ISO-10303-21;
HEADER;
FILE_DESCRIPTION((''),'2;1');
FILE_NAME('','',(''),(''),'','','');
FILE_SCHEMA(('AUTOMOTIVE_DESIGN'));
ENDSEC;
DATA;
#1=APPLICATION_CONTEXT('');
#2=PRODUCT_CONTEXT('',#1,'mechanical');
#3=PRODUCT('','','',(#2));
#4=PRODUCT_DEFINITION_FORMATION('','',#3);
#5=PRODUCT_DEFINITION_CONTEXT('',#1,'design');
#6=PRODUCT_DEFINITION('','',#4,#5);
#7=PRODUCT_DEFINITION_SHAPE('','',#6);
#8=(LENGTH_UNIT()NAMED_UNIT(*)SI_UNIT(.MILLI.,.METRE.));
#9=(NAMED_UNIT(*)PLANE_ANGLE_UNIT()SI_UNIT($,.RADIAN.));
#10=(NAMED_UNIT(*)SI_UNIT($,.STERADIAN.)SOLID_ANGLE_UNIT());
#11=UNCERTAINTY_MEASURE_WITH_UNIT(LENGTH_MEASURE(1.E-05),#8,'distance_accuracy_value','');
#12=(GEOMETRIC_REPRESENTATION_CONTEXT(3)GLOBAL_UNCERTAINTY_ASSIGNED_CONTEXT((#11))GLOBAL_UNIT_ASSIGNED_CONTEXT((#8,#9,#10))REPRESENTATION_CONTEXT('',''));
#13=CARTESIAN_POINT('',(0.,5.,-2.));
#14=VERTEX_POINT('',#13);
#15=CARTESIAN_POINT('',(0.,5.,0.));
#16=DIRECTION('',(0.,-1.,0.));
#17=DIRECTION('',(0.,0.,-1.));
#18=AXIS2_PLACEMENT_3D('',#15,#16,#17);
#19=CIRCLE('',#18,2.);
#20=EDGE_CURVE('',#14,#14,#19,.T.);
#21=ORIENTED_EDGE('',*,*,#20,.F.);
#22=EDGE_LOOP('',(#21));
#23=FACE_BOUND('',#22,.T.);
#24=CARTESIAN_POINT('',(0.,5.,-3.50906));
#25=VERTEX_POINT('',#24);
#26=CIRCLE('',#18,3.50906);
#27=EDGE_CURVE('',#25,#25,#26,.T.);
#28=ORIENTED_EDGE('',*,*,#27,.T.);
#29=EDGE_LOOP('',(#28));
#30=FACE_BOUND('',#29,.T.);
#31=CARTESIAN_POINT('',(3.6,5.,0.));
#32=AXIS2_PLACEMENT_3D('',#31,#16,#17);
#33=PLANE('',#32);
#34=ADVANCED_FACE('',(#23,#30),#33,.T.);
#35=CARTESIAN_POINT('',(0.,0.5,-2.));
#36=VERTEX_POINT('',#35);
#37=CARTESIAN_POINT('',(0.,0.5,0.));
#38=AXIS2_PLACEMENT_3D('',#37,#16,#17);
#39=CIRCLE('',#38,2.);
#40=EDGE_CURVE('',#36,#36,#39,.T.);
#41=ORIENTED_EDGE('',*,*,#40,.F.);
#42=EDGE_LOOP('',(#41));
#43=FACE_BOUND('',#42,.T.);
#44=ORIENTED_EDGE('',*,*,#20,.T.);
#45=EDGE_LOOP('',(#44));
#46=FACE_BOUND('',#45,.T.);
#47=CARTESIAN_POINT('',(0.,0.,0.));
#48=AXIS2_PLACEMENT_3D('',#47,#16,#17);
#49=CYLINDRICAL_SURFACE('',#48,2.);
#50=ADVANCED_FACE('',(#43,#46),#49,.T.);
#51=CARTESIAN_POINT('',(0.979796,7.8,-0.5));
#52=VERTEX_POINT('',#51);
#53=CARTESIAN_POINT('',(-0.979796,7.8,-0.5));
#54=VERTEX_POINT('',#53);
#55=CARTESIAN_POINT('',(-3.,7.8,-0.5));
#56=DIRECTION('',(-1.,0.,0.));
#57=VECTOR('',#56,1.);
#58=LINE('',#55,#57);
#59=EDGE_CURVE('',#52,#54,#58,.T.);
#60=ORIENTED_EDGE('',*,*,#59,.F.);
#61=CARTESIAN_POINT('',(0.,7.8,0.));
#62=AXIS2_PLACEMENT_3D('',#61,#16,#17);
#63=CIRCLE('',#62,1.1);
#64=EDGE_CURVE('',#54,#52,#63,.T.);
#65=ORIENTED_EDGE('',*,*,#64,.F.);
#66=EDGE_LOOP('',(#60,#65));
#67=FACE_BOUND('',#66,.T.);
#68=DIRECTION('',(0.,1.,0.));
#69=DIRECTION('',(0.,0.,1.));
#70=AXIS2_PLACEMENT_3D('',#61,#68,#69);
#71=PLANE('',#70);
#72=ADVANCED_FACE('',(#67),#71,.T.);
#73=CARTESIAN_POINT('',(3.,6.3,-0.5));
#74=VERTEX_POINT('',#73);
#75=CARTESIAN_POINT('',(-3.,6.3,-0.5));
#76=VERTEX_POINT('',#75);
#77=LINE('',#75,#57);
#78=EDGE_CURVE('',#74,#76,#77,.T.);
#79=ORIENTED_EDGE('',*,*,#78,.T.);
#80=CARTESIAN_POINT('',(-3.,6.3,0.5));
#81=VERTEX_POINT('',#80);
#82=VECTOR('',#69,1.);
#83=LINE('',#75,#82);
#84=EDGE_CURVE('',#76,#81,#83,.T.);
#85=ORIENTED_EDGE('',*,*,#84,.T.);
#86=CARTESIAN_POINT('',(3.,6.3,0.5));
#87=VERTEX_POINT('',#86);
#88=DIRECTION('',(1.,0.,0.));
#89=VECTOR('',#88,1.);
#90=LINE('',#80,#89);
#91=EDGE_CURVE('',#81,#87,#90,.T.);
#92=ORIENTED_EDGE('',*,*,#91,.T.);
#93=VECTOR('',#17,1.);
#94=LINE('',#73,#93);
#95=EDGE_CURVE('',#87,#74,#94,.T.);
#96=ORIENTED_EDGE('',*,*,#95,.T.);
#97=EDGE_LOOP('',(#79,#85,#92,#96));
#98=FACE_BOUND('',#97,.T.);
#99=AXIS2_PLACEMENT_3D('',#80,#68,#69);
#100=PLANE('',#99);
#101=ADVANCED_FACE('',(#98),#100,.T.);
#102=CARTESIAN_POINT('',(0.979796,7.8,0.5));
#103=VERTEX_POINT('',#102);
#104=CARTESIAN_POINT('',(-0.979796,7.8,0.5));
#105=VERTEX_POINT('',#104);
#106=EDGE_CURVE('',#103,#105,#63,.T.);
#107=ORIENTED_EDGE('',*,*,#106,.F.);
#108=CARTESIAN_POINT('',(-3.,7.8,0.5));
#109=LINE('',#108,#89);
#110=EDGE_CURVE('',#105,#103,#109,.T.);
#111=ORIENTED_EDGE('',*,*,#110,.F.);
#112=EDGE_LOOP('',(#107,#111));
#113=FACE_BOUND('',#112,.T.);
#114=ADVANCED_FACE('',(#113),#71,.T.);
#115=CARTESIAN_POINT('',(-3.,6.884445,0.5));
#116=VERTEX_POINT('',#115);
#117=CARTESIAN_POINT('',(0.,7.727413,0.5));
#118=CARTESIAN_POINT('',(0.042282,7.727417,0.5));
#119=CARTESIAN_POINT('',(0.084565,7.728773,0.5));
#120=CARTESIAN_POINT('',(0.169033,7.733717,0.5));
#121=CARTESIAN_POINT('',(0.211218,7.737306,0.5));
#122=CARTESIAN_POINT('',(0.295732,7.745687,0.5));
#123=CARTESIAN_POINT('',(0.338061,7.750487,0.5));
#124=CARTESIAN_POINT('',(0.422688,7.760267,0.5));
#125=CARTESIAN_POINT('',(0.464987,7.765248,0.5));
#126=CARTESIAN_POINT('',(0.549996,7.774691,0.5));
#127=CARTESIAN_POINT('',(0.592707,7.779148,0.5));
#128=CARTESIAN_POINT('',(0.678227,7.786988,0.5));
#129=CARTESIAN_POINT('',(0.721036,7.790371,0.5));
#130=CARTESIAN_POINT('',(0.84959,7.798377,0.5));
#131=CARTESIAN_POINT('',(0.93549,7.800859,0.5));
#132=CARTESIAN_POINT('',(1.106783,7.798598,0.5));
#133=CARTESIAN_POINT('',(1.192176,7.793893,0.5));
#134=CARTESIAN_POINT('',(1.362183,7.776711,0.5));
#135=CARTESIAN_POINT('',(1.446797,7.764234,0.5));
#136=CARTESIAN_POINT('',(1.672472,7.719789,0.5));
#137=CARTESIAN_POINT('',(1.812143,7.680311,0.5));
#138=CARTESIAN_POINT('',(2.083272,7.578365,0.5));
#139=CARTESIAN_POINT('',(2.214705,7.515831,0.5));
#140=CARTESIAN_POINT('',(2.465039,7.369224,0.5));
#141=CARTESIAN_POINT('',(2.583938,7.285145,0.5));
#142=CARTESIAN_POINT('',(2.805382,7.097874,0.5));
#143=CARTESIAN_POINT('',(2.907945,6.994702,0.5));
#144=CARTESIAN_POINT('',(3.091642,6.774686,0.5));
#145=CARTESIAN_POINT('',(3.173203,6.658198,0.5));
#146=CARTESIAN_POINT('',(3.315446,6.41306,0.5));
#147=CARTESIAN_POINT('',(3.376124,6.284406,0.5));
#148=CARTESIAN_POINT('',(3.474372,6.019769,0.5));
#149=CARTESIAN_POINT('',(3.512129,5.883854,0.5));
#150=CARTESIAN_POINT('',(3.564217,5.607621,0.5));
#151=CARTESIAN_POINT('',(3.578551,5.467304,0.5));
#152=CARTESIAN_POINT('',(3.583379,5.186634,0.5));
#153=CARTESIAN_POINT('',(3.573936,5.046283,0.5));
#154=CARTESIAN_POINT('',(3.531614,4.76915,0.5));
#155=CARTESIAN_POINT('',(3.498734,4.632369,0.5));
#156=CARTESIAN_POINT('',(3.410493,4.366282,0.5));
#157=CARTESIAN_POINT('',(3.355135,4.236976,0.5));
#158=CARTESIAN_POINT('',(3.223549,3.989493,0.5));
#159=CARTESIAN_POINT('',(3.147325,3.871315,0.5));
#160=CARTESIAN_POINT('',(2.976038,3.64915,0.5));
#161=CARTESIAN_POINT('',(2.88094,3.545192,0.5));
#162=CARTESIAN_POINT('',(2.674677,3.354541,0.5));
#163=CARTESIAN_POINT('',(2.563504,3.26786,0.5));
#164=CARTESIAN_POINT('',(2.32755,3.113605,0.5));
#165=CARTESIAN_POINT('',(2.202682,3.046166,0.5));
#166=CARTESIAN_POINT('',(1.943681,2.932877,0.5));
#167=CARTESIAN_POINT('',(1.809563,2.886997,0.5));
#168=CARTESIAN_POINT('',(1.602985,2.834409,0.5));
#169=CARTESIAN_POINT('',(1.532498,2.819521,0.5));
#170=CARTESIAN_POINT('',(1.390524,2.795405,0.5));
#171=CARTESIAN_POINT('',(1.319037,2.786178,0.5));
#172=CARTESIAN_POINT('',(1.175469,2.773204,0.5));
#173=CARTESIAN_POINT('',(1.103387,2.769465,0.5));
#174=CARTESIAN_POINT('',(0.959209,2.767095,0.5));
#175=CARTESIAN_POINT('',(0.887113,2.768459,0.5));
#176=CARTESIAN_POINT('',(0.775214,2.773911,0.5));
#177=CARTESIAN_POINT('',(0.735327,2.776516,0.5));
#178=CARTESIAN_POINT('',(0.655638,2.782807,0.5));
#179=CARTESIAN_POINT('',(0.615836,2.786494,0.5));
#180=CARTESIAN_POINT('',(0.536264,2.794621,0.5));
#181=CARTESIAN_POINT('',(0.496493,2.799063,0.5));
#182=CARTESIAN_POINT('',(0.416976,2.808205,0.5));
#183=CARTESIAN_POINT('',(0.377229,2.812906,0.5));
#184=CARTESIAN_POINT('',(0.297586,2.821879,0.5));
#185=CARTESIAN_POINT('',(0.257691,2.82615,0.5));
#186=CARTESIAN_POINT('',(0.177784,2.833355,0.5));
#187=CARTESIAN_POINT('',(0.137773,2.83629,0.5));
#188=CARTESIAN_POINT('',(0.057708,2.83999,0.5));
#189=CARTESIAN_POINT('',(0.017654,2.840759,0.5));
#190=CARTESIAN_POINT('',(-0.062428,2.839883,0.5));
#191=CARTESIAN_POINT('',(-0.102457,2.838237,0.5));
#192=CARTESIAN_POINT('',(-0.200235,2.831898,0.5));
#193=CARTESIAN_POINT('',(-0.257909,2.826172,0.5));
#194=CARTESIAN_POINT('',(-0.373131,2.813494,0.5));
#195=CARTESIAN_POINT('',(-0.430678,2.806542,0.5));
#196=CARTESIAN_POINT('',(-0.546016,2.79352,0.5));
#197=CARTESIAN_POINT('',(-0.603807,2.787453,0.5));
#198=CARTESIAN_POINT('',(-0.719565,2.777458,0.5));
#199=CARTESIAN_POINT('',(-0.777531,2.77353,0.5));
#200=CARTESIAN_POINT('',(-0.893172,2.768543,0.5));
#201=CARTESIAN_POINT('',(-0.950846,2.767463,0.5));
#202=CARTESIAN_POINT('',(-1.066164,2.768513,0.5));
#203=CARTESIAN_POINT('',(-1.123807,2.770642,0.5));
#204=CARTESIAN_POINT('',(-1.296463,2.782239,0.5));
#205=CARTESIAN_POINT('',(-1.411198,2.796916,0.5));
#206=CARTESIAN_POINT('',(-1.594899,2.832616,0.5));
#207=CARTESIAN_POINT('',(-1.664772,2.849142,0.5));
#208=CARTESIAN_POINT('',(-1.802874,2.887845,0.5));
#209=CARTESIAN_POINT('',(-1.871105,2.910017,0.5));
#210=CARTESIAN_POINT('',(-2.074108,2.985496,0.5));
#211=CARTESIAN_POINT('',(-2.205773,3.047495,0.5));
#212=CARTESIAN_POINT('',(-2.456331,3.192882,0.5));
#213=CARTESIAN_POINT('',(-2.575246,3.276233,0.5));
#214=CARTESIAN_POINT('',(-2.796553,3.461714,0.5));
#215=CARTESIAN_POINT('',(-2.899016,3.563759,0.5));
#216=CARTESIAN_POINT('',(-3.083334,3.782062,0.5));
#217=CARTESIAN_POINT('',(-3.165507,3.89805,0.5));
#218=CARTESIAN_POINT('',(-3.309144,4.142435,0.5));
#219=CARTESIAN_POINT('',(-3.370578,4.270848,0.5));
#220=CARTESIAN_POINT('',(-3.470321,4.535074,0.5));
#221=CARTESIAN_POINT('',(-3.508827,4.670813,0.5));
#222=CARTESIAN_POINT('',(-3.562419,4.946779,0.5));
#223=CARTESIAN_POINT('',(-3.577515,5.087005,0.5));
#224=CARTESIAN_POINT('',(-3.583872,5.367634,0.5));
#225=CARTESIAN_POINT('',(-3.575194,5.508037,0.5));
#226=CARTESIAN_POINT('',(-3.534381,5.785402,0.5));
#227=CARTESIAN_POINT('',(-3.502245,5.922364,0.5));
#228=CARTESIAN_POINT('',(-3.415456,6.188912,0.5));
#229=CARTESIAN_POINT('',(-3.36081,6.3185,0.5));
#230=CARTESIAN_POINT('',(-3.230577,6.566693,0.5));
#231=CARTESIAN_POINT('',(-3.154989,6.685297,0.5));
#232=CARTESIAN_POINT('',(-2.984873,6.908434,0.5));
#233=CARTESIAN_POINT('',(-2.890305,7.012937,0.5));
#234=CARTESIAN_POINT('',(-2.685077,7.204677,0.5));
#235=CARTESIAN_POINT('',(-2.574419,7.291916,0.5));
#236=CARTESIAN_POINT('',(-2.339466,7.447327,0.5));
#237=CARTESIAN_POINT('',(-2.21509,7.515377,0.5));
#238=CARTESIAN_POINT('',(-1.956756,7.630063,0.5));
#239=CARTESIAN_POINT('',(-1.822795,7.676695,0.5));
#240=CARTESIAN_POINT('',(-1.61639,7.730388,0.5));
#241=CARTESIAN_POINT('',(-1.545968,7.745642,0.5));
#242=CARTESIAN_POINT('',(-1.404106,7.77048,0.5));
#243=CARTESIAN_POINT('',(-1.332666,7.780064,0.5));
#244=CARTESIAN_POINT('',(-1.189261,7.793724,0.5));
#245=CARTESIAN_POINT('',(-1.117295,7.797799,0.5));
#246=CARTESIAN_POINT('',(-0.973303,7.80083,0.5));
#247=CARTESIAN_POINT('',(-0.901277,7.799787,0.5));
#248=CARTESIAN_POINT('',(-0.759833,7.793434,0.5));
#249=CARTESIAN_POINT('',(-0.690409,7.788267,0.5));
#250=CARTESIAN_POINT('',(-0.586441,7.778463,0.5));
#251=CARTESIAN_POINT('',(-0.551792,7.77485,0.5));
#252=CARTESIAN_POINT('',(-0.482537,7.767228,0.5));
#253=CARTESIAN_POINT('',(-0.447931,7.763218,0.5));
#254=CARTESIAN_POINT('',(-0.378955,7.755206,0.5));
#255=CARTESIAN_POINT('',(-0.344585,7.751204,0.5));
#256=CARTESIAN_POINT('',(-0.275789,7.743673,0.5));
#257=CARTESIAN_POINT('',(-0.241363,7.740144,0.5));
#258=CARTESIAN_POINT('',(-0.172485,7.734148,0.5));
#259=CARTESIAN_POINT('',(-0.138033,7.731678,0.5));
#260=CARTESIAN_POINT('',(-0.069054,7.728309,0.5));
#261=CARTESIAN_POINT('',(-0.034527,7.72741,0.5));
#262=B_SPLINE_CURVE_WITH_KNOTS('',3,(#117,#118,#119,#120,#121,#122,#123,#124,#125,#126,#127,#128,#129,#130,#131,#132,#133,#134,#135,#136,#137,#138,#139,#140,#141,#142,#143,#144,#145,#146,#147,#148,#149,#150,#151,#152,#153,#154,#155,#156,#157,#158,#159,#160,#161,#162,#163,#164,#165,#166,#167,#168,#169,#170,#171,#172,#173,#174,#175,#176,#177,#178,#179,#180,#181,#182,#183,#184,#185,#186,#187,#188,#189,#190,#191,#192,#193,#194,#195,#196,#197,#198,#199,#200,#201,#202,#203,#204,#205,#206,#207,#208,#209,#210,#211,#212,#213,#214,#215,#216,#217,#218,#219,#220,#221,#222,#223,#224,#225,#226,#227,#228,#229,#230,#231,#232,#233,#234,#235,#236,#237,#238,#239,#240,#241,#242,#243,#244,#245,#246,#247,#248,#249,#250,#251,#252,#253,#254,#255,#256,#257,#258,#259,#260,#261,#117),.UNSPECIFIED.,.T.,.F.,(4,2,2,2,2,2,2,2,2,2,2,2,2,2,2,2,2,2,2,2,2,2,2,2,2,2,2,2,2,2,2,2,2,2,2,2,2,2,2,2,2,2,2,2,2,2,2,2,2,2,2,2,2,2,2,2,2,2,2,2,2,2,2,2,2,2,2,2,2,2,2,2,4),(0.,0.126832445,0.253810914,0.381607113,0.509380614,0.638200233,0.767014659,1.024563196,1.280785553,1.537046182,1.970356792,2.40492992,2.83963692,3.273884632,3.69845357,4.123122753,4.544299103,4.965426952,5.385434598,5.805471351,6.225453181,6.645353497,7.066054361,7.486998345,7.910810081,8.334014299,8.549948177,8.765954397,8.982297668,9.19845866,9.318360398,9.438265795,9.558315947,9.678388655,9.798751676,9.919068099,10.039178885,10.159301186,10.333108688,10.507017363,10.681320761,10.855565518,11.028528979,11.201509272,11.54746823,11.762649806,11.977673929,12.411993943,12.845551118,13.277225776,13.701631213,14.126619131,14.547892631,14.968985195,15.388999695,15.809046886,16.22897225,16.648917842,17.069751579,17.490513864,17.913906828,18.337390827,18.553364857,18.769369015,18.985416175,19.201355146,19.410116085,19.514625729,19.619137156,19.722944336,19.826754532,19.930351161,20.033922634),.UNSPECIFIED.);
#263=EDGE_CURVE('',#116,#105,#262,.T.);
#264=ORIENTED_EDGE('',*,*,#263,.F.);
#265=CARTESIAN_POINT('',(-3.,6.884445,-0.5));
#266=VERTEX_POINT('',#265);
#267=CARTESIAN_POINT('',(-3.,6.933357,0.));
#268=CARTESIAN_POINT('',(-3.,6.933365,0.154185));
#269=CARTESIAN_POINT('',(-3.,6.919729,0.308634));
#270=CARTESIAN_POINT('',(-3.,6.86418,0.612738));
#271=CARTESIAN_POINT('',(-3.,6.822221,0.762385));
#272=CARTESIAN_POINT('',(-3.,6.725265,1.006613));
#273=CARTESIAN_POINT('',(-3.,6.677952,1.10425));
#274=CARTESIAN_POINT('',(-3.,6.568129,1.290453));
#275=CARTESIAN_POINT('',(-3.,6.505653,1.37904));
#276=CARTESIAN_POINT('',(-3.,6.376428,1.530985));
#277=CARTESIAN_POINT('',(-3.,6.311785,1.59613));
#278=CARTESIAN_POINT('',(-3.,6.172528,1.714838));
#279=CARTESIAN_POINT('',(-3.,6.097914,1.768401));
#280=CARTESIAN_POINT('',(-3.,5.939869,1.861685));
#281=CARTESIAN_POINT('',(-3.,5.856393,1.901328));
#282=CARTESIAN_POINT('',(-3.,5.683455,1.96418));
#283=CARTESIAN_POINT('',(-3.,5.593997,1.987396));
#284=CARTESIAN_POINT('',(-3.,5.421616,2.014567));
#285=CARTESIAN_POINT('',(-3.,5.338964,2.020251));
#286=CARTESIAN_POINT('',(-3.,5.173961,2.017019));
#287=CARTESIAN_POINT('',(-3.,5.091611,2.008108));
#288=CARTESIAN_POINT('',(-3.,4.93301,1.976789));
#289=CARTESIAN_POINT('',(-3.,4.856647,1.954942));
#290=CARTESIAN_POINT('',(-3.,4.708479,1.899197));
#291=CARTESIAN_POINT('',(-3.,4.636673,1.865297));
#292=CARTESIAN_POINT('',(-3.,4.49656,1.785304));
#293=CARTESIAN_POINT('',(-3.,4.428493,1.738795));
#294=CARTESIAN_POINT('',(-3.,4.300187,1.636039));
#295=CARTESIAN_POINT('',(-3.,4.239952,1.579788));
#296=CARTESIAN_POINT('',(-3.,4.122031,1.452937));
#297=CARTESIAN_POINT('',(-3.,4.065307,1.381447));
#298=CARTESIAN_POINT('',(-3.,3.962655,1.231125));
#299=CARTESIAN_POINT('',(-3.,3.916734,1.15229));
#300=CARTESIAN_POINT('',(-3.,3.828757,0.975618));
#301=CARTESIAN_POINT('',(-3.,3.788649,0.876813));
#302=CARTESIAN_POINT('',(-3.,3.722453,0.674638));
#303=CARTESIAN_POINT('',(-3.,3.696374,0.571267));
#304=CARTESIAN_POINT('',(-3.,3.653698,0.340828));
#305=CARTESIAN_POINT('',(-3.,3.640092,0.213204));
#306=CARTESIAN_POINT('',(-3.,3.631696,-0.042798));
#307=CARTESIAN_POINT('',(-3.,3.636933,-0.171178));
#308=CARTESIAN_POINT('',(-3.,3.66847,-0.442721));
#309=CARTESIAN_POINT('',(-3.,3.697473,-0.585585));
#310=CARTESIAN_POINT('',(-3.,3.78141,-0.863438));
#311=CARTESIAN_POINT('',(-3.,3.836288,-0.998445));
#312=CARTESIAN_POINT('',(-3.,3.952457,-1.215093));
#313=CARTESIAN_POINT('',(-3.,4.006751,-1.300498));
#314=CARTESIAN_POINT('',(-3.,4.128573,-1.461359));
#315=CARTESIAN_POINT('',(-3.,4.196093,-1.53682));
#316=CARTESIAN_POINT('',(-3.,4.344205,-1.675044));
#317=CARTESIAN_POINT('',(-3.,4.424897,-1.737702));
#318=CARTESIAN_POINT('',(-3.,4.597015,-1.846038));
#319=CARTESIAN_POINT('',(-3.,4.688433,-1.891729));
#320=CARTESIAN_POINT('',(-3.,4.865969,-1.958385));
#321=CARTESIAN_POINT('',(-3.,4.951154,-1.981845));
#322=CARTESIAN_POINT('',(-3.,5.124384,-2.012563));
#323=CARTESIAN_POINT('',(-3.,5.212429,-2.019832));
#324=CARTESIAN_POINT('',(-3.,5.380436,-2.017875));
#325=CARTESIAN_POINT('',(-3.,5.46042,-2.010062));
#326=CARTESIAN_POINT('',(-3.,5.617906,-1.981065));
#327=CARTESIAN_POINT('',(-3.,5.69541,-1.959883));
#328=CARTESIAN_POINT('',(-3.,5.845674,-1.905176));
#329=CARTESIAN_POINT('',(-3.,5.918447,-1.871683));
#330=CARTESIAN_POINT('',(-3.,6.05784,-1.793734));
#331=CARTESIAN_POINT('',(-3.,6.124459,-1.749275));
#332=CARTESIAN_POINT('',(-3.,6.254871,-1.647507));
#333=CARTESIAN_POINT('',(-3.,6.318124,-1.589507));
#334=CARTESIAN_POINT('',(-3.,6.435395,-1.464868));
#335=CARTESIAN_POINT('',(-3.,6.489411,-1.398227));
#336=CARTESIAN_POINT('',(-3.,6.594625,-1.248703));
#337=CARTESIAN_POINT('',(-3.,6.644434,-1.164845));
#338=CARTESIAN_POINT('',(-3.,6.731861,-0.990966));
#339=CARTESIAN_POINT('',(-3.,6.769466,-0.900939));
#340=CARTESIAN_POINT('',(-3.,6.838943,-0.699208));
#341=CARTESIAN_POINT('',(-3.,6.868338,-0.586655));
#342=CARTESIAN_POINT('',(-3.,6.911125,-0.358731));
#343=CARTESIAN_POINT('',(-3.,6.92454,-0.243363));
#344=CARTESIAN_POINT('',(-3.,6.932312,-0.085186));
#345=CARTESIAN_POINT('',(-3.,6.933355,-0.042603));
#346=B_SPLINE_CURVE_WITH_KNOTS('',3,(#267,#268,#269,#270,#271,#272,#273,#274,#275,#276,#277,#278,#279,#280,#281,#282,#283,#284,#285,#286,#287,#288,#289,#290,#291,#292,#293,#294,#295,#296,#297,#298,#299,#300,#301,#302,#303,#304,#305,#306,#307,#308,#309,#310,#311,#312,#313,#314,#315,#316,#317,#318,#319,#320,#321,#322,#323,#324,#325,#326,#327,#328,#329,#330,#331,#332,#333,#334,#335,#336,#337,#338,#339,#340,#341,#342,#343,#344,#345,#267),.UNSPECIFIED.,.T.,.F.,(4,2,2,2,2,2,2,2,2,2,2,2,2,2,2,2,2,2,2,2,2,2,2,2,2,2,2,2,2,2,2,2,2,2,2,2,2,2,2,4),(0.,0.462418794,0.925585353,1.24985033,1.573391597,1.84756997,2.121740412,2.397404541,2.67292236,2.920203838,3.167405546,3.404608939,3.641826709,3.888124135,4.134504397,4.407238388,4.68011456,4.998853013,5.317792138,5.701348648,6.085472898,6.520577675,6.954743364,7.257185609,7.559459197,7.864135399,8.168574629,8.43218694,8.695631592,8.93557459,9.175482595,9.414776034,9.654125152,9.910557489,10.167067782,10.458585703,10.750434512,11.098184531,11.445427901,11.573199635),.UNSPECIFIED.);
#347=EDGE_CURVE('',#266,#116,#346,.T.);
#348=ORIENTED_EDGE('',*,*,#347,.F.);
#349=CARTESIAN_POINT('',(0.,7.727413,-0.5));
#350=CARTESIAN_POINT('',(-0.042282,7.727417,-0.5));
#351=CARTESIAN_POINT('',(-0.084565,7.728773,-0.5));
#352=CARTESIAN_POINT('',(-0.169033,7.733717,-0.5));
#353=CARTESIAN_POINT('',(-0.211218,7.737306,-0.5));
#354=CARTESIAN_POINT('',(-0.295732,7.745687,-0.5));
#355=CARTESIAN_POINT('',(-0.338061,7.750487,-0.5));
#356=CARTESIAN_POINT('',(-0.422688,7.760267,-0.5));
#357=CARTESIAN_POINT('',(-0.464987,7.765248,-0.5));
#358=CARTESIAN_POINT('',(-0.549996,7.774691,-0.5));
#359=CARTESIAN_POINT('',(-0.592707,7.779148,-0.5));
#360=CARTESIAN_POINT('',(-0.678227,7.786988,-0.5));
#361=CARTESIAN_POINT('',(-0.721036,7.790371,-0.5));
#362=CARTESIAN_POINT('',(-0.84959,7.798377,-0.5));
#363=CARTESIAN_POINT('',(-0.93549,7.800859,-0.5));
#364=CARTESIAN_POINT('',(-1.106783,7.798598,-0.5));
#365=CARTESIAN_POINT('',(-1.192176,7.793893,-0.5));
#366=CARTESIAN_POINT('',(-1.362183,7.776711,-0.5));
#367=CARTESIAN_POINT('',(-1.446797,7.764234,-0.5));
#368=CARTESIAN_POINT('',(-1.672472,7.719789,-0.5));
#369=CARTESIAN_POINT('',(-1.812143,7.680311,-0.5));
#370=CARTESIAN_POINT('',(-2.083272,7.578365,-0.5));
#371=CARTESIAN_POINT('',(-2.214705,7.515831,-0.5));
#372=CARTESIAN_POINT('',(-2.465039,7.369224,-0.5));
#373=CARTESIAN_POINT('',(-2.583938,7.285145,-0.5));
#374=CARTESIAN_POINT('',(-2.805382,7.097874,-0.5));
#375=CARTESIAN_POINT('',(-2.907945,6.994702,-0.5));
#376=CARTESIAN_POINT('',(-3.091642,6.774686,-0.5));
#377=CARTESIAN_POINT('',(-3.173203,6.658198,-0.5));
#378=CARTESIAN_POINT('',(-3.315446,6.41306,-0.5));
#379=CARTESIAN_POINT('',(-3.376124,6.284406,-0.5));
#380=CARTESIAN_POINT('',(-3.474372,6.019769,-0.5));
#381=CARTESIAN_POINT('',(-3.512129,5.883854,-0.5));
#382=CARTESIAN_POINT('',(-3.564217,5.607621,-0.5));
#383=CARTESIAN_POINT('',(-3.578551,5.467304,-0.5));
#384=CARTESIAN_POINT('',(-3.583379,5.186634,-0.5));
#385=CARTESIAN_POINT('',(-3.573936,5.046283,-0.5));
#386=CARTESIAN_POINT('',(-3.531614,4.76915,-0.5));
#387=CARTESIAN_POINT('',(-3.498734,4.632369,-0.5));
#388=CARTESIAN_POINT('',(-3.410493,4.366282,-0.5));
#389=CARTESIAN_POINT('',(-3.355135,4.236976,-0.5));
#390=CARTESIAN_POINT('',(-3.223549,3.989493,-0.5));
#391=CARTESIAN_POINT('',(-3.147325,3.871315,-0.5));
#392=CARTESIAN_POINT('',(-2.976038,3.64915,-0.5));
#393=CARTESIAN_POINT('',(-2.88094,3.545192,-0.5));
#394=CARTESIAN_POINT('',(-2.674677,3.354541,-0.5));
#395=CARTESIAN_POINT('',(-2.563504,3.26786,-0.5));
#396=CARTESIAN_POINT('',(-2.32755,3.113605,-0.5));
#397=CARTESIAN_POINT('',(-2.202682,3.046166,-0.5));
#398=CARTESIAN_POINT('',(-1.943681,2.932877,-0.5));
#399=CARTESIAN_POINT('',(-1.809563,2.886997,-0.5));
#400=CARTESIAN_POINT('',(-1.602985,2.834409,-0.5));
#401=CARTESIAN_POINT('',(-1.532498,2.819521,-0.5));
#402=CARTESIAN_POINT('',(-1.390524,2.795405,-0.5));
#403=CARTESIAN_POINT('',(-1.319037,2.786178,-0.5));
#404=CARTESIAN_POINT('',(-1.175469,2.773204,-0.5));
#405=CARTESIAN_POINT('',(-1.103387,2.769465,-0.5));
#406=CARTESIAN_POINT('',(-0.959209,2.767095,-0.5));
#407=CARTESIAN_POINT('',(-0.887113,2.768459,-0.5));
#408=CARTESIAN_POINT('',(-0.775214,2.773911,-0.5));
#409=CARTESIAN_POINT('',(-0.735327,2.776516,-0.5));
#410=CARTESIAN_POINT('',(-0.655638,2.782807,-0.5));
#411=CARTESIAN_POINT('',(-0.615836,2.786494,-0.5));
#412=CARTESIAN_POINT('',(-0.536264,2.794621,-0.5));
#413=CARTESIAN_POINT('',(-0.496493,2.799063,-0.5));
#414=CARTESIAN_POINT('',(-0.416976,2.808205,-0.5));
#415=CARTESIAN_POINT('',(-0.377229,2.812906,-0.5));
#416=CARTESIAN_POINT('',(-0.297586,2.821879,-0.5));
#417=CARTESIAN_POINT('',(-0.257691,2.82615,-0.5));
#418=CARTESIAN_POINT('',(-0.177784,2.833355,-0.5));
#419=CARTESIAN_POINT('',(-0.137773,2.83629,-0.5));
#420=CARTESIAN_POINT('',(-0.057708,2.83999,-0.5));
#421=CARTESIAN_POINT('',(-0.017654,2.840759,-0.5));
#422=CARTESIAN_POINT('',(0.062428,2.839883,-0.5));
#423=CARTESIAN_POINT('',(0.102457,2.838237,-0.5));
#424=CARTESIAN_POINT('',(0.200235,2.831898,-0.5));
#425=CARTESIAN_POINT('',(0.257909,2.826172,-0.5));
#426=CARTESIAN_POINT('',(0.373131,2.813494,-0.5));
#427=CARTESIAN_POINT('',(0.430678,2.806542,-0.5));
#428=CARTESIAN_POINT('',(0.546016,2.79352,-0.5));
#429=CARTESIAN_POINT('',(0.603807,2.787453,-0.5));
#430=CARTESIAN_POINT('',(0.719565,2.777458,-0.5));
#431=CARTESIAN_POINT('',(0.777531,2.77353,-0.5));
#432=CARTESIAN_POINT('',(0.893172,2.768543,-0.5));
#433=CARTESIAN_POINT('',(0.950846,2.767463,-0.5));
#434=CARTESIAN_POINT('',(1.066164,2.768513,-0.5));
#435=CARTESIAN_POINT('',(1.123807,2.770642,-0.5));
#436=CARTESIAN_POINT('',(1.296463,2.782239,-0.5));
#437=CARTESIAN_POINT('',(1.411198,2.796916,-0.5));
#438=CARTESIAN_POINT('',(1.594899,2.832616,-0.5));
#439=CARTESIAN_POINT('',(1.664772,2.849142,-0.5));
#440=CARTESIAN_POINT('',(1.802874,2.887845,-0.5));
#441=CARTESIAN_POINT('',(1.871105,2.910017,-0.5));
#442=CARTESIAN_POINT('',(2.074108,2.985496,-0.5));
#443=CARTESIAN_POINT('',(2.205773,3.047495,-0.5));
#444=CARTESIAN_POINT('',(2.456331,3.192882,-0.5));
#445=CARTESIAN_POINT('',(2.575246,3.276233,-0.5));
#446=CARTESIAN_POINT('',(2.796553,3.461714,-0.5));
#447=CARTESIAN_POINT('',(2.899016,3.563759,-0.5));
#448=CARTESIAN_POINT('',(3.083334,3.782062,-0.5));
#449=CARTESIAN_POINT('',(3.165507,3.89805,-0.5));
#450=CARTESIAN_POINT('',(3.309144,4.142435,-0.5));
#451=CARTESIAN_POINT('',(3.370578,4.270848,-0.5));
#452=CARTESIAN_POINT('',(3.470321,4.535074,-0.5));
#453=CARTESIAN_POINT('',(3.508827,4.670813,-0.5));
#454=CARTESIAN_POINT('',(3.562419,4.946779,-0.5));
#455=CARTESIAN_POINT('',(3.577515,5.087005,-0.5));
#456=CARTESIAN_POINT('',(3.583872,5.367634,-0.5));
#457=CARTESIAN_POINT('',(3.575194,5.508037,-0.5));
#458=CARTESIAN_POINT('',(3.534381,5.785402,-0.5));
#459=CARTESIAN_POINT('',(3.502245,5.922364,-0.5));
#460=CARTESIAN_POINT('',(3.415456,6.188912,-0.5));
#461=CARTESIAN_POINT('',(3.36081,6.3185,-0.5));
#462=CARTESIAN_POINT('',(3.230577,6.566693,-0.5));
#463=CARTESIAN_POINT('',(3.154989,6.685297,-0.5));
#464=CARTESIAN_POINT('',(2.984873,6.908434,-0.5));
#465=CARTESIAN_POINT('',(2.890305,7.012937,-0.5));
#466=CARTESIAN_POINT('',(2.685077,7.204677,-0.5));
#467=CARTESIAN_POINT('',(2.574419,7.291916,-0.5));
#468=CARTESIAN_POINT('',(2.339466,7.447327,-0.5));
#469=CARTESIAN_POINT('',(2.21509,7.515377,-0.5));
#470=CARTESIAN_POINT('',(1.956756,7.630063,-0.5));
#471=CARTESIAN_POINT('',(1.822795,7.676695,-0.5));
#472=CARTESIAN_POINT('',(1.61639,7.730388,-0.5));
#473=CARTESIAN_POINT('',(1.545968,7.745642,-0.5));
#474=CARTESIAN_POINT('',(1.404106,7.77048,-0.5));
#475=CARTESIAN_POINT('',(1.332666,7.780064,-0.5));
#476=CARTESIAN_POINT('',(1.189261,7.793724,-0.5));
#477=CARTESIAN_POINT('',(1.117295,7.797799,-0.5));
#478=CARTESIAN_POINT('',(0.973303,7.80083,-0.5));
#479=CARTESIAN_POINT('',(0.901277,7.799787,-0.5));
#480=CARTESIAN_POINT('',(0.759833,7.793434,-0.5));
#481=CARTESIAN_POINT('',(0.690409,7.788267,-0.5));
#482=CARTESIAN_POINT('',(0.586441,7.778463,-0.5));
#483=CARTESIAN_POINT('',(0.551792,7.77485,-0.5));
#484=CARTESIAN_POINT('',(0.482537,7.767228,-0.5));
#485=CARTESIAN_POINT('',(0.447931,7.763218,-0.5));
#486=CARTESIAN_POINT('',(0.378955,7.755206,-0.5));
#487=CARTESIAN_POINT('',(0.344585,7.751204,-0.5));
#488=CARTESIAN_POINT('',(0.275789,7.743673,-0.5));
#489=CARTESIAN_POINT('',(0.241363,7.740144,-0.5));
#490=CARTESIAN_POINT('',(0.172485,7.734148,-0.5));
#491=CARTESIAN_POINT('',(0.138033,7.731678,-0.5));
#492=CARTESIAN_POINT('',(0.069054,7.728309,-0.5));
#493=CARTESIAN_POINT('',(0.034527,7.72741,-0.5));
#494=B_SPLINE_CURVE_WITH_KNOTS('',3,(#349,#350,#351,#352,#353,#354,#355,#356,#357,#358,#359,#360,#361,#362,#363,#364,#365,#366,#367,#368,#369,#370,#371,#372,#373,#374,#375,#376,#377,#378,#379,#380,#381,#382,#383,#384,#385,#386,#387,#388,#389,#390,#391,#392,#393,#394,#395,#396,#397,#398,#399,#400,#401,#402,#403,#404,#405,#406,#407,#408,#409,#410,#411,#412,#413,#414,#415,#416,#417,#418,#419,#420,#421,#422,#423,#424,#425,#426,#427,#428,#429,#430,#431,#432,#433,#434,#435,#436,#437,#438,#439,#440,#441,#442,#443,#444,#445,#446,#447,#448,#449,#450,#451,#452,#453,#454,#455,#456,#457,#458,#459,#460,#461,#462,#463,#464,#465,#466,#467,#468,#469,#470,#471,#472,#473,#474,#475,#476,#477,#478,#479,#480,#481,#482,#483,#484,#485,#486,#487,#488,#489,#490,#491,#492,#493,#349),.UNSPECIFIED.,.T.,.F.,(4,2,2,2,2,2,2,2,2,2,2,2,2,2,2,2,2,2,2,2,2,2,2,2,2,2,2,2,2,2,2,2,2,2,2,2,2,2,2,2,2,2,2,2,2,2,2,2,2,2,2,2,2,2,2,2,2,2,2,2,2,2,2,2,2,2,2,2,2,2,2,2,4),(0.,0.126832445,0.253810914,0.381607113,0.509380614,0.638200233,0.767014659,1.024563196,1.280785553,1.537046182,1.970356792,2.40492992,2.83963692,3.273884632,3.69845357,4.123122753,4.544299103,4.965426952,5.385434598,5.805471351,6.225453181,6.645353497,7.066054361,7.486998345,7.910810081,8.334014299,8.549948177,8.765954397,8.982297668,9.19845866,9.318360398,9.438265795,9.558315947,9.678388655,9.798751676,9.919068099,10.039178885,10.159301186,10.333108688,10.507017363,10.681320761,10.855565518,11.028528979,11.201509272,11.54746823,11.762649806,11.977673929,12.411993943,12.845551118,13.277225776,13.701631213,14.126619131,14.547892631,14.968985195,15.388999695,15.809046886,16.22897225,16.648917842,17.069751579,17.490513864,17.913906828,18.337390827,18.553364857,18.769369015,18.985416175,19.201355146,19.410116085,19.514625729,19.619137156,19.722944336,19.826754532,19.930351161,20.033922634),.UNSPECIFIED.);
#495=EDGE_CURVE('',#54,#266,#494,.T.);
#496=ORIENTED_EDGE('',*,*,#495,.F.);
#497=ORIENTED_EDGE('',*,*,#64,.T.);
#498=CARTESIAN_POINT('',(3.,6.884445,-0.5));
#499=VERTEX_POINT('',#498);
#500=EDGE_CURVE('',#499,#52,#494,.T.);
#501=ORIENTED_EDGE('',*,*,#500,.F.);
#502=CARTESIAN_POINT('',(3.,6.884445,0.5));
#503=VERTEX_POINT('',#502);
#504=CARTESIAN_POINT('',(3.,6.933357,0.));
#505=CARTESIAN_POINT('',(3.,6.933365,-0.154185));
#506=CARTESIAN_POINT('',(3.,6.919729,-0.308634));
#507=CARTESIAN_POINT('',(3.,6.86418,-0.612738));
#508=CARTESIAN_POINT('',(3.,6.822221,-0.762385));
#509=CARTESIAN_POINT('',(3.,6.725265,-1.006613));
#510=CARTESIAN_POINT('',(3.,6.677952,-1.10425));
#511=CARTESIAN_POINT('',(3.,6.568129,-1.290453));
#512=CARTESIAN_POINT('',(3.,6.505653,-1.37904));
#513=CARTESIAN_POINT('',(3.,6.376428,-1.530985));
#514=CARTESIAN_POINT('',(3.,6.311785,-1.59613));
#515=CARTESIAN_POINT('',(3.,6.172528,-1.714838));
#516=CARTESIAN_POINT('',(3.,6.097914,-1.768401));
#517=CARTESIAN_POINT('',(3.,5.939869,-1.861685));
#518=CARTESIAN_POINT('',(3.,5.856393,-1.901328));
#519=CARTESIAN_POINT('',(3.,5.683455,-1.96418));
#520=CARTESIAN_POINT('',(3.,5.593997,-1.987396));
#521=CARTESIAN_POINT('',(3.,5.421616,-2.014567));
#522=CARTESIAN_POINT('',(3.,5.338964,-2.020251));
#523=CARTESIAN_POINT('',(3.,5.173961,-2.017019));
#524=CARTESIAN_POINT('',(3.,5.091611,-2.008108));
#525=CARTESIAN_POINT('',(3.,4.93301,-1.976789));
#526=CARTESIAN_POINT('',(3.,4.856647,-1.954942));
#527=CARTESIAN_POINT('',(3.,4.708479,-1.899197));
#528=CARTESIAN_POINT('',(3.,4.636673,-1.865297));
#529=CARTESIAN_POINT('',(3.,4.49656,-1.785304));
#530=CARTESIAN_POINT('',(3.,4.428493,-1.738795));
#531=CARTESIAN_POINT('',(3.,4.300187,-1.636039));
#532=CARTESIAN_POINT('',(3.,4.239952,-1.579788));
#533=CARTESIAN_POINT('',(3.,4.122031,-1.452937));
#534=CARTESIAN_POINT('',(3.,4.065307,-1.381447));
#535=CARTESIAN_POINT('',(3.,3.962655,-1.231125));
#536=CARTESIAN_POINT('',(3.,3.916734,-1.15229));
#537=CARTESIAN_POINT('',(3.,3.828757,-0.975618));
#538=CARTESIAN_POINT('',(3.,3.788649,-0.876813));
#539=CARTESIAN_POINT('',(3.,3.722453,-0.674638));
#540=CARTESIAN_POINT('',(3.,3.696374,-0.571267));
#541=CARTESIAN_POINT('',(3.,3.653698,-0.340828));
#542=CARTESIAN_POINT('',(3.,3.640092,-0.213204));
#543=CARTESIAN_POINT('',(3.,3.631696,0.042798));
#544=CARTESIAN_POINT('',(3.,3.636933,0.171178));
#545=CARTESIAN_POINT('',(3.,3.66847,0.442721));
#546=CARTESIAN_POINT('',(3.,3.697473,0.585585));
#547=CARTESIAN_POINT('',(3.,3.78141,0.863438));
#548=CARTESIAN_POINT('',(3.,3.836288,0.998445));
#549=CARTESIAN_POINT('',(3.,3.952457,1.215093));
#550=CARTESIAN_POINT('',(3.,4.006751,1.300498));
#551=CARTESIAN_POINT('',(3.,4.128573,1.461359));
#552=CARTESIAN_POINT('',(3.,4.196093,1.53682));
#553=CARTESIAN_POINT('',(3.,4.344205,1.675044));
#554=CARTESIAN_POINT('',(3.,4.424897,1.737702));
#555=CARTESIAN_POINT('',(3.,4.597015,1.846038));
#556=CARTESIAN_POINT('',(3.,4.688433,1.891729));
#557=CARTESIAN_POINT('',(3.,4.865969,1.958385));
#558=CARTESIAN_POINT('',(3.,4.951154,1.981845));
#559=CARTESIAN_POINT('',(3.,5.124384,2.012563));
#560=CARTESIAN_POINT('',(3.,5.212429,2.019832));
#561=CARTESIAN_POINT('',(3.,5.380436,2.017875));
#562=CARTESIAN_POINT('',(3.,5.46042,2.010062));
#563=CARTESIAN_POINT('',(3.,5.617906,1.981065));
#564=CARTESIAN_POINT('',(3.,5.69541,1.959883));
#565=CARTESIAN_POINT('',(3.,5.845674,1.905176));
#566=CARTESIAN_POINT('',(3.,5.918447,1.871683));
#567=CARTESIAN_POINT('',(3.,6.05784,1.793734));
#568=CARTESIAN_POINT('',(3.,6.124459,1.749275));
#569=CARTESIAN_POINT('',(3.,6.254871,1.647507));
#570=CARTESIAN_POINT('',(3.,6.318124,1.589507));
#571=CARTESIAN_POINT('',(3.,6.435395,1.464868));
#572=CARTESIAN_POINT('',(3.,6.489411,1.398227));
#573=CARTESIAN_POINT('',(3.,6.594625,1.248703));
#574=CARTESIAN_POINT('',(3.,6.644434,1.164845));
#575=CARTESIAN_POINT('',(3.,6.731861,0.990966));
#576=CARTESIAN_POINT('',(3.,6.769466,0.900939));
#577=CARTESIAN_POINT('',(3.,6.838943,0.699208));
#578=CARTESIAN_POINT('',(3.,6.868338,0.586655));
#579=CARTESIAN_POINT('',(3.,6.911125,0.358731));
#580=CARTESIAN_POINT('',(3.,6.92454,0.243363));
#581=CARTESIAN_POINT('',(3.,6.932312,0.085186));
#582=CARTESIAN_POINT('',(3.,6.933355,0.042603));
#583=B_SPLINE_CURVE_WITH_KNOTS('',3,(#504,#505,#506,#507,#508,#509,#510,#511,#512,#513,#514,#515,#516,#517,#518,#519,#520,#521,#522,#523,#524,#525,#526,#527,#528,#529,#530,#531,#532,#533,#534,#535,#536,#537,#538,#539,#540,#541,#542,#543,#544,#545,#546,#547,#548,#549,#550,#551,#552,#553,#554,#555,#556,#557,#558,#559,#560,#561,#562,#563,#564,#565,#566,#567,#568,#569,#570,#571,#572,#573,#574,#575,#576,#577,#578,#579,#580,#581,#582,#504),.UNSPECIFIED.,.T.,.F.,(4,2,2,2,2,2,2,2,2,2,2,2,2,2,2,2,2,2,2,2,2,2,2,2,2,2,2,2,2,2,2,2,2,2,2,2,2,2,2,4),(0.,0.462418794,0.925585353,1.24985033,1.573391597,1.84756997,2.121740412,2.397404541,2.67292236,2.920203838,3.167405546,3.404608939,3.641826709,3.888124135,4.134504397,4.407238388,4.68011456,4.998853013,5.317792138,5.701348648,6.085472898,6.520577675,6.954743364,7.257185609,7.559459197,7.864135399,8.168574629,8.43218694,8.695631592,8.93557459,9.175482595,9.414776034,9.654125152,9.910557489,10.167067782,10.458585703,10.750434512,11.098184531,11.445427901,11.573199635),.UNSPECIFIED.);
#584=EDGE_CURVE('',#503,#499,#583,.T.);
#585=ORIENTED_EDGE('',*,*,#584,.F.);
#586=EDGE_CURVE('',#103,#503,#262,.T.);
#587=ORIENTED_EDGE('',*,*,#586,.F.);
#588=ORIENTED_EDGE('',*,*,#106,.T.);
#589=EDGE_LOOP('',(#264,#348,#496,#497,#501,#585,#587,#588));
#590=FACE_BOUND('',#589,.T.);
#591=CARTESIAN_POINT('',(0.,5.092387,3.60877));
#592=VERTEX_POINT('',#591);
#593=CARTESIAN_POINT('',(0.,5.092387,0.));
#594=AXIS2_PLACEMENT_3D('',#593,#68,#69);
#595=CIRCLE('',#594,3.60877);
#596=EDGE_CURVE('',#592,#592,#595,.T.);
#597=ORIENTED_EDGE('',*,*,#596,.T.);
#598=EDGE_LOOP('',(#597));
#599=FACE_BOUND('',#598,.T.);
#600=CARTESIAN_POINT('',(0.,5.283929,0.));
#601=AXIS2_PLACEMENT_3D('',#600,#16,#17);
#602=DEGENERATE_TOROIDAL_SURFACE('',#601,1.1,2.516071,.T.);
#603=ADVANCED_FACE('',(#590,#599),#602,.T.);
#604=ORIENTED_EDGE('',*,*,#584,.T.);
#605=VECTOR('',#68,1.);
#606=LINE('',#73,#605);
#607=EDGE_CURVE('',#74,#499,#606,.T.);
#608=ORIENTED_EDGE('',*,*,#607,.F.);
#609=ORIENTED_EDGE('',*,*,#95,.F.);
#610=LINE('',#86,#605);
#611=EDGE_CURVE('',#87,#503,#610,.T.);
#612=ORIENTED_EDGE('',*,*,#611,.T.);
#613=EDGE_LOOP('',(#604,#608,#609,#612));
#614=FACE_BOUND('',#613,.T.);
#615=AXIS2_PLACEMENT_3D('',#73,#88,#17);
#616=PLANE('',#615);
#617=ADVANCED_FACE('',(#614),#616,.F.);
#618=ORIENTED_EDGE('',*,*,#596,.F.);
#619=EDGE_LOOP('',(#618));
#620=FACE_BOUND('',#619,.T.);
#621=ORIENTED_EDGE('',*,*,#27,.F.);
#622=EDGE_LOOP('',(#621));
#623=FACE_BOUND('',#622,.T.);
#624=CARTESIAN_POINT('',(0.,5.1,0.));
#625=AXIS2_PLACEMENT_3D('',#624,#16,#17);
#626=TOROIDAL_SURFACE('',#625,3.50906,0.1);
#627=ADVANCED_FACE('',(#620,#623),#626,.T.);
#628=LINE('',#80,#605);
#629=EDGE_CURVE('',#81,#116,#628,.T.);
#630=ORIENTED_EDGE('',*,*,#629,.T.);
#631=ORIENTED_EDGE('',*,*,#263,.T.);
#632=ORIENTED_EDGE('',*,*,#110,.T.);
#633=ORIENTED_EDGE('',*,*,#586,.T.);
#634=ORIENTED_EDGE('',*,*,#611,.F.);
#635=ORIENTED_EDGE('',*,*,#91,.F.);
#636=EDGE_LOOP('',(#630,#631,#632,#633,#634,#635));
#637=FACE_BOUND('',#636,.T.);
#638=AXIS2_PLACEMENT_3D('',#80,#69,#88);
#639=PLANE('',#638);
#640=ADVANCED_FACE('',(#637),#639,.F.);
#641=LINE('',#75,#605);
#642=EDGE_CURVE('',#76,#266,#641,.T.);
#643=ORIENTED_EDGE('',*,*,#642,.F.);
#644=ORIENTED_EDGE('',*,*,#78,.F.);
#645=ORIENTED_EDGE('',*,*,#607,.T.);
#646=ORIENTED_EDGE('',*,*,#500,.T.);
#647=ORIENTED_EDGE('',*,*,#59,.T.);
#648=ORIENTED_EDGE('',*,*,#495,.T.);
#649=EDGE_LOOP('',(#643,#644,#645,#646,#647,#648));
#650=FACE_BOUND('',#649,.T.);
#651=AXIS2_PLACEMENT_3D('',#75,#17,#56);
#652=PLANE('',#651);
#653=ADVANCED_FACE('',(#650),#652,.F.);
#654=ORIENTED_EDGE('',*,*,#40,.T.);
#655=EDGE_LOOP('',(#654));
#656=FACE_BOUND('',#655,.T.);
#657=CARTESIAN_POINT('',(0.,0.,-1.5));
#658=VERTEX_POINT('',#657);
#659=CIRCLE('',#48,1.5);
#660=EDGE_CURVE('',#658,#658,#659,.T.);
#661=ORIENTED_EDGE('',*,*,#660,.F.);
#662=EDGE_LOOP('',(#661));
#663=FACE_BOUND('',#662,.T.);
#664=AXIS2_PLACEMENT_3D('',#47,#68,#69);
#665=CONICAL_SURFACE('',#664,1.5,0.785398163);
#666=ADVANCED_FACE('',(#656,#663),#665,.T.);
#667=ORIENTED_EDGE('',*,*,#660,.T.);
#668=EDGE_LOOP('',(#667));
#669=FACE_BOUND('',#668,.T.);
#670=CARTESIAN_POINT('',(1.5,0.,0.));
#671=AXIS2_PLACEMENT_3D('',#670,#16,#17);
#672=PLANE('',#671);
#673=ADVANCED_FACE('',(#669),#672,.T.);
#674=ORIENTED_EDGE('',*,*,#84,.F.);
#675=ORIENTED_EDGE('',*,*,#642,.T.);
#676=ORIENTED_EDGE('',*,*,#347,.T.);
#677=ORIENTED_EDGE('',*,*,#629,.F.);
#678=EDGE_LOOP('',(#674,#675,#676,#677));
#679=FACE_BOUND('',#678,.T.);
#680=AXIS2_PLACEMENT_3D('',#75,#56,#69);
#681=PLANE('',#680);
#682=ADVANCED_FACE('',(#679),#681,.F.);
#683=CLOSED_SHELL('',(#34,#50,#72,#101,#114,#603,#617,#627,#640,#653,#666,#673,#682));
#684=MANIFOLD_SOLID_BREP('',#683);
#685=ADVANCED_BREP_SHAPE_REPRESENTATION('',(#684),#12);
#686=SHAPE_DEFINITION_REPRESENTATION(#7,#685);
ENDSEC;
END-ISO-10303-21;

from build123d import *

# Parameters (mm, degrees)
FILLET_1_R          = 0.1
SKETCH_3_W          = 6
SKETCH_3_H          = 1
CUT_EXTRUDE_2_DEPTH = 1.5


with BuildPart() as part:
    # Эскиз1 → Повернуть1 (revolve)
    with BuildSketch(Plane.XY):
        with BuildLine():
            Line((3.6, 5), (2, 5))
            Line((2, 5), (2, 0.5))
            Line((2, 0.5), (1.5, 0))
            Line((1.5, 0), (0, 0))
            Line((0, 0), (0, 7.8))
            Line((0, 7.8), (1.1, 7.8))
            ThreePointArc((1.1, 7.8), (2.976832438, 6.95967182), (3.6, 5))
        make_face()
    revolve(axis=Axis((0, 0, 0), (0, 1, 0)))

    # Скругление1
    fillet_1_edges = [part.edges().sort_by_distance(p)[0] for p in [
        (-3.6, 5, 0),
    ]]
    fillet(fillet_1_edges, radius=FILLET_1_R)

    # Эскиз3 → Вырез-Вытянуть2 (cut)
    with BuildSketch(Plane(origin=(0, 7.8, 0), x_dir=(-1, 0, 0), z_dir=(0, 1, 0))):
        Rectangle(SKETCH_3_W, SKETCH_3_H)
    extrude(amount=-CUT_EXTRUDE_2_DEPTH, mode=Mode.SUBTRACT)


solid = part.part
